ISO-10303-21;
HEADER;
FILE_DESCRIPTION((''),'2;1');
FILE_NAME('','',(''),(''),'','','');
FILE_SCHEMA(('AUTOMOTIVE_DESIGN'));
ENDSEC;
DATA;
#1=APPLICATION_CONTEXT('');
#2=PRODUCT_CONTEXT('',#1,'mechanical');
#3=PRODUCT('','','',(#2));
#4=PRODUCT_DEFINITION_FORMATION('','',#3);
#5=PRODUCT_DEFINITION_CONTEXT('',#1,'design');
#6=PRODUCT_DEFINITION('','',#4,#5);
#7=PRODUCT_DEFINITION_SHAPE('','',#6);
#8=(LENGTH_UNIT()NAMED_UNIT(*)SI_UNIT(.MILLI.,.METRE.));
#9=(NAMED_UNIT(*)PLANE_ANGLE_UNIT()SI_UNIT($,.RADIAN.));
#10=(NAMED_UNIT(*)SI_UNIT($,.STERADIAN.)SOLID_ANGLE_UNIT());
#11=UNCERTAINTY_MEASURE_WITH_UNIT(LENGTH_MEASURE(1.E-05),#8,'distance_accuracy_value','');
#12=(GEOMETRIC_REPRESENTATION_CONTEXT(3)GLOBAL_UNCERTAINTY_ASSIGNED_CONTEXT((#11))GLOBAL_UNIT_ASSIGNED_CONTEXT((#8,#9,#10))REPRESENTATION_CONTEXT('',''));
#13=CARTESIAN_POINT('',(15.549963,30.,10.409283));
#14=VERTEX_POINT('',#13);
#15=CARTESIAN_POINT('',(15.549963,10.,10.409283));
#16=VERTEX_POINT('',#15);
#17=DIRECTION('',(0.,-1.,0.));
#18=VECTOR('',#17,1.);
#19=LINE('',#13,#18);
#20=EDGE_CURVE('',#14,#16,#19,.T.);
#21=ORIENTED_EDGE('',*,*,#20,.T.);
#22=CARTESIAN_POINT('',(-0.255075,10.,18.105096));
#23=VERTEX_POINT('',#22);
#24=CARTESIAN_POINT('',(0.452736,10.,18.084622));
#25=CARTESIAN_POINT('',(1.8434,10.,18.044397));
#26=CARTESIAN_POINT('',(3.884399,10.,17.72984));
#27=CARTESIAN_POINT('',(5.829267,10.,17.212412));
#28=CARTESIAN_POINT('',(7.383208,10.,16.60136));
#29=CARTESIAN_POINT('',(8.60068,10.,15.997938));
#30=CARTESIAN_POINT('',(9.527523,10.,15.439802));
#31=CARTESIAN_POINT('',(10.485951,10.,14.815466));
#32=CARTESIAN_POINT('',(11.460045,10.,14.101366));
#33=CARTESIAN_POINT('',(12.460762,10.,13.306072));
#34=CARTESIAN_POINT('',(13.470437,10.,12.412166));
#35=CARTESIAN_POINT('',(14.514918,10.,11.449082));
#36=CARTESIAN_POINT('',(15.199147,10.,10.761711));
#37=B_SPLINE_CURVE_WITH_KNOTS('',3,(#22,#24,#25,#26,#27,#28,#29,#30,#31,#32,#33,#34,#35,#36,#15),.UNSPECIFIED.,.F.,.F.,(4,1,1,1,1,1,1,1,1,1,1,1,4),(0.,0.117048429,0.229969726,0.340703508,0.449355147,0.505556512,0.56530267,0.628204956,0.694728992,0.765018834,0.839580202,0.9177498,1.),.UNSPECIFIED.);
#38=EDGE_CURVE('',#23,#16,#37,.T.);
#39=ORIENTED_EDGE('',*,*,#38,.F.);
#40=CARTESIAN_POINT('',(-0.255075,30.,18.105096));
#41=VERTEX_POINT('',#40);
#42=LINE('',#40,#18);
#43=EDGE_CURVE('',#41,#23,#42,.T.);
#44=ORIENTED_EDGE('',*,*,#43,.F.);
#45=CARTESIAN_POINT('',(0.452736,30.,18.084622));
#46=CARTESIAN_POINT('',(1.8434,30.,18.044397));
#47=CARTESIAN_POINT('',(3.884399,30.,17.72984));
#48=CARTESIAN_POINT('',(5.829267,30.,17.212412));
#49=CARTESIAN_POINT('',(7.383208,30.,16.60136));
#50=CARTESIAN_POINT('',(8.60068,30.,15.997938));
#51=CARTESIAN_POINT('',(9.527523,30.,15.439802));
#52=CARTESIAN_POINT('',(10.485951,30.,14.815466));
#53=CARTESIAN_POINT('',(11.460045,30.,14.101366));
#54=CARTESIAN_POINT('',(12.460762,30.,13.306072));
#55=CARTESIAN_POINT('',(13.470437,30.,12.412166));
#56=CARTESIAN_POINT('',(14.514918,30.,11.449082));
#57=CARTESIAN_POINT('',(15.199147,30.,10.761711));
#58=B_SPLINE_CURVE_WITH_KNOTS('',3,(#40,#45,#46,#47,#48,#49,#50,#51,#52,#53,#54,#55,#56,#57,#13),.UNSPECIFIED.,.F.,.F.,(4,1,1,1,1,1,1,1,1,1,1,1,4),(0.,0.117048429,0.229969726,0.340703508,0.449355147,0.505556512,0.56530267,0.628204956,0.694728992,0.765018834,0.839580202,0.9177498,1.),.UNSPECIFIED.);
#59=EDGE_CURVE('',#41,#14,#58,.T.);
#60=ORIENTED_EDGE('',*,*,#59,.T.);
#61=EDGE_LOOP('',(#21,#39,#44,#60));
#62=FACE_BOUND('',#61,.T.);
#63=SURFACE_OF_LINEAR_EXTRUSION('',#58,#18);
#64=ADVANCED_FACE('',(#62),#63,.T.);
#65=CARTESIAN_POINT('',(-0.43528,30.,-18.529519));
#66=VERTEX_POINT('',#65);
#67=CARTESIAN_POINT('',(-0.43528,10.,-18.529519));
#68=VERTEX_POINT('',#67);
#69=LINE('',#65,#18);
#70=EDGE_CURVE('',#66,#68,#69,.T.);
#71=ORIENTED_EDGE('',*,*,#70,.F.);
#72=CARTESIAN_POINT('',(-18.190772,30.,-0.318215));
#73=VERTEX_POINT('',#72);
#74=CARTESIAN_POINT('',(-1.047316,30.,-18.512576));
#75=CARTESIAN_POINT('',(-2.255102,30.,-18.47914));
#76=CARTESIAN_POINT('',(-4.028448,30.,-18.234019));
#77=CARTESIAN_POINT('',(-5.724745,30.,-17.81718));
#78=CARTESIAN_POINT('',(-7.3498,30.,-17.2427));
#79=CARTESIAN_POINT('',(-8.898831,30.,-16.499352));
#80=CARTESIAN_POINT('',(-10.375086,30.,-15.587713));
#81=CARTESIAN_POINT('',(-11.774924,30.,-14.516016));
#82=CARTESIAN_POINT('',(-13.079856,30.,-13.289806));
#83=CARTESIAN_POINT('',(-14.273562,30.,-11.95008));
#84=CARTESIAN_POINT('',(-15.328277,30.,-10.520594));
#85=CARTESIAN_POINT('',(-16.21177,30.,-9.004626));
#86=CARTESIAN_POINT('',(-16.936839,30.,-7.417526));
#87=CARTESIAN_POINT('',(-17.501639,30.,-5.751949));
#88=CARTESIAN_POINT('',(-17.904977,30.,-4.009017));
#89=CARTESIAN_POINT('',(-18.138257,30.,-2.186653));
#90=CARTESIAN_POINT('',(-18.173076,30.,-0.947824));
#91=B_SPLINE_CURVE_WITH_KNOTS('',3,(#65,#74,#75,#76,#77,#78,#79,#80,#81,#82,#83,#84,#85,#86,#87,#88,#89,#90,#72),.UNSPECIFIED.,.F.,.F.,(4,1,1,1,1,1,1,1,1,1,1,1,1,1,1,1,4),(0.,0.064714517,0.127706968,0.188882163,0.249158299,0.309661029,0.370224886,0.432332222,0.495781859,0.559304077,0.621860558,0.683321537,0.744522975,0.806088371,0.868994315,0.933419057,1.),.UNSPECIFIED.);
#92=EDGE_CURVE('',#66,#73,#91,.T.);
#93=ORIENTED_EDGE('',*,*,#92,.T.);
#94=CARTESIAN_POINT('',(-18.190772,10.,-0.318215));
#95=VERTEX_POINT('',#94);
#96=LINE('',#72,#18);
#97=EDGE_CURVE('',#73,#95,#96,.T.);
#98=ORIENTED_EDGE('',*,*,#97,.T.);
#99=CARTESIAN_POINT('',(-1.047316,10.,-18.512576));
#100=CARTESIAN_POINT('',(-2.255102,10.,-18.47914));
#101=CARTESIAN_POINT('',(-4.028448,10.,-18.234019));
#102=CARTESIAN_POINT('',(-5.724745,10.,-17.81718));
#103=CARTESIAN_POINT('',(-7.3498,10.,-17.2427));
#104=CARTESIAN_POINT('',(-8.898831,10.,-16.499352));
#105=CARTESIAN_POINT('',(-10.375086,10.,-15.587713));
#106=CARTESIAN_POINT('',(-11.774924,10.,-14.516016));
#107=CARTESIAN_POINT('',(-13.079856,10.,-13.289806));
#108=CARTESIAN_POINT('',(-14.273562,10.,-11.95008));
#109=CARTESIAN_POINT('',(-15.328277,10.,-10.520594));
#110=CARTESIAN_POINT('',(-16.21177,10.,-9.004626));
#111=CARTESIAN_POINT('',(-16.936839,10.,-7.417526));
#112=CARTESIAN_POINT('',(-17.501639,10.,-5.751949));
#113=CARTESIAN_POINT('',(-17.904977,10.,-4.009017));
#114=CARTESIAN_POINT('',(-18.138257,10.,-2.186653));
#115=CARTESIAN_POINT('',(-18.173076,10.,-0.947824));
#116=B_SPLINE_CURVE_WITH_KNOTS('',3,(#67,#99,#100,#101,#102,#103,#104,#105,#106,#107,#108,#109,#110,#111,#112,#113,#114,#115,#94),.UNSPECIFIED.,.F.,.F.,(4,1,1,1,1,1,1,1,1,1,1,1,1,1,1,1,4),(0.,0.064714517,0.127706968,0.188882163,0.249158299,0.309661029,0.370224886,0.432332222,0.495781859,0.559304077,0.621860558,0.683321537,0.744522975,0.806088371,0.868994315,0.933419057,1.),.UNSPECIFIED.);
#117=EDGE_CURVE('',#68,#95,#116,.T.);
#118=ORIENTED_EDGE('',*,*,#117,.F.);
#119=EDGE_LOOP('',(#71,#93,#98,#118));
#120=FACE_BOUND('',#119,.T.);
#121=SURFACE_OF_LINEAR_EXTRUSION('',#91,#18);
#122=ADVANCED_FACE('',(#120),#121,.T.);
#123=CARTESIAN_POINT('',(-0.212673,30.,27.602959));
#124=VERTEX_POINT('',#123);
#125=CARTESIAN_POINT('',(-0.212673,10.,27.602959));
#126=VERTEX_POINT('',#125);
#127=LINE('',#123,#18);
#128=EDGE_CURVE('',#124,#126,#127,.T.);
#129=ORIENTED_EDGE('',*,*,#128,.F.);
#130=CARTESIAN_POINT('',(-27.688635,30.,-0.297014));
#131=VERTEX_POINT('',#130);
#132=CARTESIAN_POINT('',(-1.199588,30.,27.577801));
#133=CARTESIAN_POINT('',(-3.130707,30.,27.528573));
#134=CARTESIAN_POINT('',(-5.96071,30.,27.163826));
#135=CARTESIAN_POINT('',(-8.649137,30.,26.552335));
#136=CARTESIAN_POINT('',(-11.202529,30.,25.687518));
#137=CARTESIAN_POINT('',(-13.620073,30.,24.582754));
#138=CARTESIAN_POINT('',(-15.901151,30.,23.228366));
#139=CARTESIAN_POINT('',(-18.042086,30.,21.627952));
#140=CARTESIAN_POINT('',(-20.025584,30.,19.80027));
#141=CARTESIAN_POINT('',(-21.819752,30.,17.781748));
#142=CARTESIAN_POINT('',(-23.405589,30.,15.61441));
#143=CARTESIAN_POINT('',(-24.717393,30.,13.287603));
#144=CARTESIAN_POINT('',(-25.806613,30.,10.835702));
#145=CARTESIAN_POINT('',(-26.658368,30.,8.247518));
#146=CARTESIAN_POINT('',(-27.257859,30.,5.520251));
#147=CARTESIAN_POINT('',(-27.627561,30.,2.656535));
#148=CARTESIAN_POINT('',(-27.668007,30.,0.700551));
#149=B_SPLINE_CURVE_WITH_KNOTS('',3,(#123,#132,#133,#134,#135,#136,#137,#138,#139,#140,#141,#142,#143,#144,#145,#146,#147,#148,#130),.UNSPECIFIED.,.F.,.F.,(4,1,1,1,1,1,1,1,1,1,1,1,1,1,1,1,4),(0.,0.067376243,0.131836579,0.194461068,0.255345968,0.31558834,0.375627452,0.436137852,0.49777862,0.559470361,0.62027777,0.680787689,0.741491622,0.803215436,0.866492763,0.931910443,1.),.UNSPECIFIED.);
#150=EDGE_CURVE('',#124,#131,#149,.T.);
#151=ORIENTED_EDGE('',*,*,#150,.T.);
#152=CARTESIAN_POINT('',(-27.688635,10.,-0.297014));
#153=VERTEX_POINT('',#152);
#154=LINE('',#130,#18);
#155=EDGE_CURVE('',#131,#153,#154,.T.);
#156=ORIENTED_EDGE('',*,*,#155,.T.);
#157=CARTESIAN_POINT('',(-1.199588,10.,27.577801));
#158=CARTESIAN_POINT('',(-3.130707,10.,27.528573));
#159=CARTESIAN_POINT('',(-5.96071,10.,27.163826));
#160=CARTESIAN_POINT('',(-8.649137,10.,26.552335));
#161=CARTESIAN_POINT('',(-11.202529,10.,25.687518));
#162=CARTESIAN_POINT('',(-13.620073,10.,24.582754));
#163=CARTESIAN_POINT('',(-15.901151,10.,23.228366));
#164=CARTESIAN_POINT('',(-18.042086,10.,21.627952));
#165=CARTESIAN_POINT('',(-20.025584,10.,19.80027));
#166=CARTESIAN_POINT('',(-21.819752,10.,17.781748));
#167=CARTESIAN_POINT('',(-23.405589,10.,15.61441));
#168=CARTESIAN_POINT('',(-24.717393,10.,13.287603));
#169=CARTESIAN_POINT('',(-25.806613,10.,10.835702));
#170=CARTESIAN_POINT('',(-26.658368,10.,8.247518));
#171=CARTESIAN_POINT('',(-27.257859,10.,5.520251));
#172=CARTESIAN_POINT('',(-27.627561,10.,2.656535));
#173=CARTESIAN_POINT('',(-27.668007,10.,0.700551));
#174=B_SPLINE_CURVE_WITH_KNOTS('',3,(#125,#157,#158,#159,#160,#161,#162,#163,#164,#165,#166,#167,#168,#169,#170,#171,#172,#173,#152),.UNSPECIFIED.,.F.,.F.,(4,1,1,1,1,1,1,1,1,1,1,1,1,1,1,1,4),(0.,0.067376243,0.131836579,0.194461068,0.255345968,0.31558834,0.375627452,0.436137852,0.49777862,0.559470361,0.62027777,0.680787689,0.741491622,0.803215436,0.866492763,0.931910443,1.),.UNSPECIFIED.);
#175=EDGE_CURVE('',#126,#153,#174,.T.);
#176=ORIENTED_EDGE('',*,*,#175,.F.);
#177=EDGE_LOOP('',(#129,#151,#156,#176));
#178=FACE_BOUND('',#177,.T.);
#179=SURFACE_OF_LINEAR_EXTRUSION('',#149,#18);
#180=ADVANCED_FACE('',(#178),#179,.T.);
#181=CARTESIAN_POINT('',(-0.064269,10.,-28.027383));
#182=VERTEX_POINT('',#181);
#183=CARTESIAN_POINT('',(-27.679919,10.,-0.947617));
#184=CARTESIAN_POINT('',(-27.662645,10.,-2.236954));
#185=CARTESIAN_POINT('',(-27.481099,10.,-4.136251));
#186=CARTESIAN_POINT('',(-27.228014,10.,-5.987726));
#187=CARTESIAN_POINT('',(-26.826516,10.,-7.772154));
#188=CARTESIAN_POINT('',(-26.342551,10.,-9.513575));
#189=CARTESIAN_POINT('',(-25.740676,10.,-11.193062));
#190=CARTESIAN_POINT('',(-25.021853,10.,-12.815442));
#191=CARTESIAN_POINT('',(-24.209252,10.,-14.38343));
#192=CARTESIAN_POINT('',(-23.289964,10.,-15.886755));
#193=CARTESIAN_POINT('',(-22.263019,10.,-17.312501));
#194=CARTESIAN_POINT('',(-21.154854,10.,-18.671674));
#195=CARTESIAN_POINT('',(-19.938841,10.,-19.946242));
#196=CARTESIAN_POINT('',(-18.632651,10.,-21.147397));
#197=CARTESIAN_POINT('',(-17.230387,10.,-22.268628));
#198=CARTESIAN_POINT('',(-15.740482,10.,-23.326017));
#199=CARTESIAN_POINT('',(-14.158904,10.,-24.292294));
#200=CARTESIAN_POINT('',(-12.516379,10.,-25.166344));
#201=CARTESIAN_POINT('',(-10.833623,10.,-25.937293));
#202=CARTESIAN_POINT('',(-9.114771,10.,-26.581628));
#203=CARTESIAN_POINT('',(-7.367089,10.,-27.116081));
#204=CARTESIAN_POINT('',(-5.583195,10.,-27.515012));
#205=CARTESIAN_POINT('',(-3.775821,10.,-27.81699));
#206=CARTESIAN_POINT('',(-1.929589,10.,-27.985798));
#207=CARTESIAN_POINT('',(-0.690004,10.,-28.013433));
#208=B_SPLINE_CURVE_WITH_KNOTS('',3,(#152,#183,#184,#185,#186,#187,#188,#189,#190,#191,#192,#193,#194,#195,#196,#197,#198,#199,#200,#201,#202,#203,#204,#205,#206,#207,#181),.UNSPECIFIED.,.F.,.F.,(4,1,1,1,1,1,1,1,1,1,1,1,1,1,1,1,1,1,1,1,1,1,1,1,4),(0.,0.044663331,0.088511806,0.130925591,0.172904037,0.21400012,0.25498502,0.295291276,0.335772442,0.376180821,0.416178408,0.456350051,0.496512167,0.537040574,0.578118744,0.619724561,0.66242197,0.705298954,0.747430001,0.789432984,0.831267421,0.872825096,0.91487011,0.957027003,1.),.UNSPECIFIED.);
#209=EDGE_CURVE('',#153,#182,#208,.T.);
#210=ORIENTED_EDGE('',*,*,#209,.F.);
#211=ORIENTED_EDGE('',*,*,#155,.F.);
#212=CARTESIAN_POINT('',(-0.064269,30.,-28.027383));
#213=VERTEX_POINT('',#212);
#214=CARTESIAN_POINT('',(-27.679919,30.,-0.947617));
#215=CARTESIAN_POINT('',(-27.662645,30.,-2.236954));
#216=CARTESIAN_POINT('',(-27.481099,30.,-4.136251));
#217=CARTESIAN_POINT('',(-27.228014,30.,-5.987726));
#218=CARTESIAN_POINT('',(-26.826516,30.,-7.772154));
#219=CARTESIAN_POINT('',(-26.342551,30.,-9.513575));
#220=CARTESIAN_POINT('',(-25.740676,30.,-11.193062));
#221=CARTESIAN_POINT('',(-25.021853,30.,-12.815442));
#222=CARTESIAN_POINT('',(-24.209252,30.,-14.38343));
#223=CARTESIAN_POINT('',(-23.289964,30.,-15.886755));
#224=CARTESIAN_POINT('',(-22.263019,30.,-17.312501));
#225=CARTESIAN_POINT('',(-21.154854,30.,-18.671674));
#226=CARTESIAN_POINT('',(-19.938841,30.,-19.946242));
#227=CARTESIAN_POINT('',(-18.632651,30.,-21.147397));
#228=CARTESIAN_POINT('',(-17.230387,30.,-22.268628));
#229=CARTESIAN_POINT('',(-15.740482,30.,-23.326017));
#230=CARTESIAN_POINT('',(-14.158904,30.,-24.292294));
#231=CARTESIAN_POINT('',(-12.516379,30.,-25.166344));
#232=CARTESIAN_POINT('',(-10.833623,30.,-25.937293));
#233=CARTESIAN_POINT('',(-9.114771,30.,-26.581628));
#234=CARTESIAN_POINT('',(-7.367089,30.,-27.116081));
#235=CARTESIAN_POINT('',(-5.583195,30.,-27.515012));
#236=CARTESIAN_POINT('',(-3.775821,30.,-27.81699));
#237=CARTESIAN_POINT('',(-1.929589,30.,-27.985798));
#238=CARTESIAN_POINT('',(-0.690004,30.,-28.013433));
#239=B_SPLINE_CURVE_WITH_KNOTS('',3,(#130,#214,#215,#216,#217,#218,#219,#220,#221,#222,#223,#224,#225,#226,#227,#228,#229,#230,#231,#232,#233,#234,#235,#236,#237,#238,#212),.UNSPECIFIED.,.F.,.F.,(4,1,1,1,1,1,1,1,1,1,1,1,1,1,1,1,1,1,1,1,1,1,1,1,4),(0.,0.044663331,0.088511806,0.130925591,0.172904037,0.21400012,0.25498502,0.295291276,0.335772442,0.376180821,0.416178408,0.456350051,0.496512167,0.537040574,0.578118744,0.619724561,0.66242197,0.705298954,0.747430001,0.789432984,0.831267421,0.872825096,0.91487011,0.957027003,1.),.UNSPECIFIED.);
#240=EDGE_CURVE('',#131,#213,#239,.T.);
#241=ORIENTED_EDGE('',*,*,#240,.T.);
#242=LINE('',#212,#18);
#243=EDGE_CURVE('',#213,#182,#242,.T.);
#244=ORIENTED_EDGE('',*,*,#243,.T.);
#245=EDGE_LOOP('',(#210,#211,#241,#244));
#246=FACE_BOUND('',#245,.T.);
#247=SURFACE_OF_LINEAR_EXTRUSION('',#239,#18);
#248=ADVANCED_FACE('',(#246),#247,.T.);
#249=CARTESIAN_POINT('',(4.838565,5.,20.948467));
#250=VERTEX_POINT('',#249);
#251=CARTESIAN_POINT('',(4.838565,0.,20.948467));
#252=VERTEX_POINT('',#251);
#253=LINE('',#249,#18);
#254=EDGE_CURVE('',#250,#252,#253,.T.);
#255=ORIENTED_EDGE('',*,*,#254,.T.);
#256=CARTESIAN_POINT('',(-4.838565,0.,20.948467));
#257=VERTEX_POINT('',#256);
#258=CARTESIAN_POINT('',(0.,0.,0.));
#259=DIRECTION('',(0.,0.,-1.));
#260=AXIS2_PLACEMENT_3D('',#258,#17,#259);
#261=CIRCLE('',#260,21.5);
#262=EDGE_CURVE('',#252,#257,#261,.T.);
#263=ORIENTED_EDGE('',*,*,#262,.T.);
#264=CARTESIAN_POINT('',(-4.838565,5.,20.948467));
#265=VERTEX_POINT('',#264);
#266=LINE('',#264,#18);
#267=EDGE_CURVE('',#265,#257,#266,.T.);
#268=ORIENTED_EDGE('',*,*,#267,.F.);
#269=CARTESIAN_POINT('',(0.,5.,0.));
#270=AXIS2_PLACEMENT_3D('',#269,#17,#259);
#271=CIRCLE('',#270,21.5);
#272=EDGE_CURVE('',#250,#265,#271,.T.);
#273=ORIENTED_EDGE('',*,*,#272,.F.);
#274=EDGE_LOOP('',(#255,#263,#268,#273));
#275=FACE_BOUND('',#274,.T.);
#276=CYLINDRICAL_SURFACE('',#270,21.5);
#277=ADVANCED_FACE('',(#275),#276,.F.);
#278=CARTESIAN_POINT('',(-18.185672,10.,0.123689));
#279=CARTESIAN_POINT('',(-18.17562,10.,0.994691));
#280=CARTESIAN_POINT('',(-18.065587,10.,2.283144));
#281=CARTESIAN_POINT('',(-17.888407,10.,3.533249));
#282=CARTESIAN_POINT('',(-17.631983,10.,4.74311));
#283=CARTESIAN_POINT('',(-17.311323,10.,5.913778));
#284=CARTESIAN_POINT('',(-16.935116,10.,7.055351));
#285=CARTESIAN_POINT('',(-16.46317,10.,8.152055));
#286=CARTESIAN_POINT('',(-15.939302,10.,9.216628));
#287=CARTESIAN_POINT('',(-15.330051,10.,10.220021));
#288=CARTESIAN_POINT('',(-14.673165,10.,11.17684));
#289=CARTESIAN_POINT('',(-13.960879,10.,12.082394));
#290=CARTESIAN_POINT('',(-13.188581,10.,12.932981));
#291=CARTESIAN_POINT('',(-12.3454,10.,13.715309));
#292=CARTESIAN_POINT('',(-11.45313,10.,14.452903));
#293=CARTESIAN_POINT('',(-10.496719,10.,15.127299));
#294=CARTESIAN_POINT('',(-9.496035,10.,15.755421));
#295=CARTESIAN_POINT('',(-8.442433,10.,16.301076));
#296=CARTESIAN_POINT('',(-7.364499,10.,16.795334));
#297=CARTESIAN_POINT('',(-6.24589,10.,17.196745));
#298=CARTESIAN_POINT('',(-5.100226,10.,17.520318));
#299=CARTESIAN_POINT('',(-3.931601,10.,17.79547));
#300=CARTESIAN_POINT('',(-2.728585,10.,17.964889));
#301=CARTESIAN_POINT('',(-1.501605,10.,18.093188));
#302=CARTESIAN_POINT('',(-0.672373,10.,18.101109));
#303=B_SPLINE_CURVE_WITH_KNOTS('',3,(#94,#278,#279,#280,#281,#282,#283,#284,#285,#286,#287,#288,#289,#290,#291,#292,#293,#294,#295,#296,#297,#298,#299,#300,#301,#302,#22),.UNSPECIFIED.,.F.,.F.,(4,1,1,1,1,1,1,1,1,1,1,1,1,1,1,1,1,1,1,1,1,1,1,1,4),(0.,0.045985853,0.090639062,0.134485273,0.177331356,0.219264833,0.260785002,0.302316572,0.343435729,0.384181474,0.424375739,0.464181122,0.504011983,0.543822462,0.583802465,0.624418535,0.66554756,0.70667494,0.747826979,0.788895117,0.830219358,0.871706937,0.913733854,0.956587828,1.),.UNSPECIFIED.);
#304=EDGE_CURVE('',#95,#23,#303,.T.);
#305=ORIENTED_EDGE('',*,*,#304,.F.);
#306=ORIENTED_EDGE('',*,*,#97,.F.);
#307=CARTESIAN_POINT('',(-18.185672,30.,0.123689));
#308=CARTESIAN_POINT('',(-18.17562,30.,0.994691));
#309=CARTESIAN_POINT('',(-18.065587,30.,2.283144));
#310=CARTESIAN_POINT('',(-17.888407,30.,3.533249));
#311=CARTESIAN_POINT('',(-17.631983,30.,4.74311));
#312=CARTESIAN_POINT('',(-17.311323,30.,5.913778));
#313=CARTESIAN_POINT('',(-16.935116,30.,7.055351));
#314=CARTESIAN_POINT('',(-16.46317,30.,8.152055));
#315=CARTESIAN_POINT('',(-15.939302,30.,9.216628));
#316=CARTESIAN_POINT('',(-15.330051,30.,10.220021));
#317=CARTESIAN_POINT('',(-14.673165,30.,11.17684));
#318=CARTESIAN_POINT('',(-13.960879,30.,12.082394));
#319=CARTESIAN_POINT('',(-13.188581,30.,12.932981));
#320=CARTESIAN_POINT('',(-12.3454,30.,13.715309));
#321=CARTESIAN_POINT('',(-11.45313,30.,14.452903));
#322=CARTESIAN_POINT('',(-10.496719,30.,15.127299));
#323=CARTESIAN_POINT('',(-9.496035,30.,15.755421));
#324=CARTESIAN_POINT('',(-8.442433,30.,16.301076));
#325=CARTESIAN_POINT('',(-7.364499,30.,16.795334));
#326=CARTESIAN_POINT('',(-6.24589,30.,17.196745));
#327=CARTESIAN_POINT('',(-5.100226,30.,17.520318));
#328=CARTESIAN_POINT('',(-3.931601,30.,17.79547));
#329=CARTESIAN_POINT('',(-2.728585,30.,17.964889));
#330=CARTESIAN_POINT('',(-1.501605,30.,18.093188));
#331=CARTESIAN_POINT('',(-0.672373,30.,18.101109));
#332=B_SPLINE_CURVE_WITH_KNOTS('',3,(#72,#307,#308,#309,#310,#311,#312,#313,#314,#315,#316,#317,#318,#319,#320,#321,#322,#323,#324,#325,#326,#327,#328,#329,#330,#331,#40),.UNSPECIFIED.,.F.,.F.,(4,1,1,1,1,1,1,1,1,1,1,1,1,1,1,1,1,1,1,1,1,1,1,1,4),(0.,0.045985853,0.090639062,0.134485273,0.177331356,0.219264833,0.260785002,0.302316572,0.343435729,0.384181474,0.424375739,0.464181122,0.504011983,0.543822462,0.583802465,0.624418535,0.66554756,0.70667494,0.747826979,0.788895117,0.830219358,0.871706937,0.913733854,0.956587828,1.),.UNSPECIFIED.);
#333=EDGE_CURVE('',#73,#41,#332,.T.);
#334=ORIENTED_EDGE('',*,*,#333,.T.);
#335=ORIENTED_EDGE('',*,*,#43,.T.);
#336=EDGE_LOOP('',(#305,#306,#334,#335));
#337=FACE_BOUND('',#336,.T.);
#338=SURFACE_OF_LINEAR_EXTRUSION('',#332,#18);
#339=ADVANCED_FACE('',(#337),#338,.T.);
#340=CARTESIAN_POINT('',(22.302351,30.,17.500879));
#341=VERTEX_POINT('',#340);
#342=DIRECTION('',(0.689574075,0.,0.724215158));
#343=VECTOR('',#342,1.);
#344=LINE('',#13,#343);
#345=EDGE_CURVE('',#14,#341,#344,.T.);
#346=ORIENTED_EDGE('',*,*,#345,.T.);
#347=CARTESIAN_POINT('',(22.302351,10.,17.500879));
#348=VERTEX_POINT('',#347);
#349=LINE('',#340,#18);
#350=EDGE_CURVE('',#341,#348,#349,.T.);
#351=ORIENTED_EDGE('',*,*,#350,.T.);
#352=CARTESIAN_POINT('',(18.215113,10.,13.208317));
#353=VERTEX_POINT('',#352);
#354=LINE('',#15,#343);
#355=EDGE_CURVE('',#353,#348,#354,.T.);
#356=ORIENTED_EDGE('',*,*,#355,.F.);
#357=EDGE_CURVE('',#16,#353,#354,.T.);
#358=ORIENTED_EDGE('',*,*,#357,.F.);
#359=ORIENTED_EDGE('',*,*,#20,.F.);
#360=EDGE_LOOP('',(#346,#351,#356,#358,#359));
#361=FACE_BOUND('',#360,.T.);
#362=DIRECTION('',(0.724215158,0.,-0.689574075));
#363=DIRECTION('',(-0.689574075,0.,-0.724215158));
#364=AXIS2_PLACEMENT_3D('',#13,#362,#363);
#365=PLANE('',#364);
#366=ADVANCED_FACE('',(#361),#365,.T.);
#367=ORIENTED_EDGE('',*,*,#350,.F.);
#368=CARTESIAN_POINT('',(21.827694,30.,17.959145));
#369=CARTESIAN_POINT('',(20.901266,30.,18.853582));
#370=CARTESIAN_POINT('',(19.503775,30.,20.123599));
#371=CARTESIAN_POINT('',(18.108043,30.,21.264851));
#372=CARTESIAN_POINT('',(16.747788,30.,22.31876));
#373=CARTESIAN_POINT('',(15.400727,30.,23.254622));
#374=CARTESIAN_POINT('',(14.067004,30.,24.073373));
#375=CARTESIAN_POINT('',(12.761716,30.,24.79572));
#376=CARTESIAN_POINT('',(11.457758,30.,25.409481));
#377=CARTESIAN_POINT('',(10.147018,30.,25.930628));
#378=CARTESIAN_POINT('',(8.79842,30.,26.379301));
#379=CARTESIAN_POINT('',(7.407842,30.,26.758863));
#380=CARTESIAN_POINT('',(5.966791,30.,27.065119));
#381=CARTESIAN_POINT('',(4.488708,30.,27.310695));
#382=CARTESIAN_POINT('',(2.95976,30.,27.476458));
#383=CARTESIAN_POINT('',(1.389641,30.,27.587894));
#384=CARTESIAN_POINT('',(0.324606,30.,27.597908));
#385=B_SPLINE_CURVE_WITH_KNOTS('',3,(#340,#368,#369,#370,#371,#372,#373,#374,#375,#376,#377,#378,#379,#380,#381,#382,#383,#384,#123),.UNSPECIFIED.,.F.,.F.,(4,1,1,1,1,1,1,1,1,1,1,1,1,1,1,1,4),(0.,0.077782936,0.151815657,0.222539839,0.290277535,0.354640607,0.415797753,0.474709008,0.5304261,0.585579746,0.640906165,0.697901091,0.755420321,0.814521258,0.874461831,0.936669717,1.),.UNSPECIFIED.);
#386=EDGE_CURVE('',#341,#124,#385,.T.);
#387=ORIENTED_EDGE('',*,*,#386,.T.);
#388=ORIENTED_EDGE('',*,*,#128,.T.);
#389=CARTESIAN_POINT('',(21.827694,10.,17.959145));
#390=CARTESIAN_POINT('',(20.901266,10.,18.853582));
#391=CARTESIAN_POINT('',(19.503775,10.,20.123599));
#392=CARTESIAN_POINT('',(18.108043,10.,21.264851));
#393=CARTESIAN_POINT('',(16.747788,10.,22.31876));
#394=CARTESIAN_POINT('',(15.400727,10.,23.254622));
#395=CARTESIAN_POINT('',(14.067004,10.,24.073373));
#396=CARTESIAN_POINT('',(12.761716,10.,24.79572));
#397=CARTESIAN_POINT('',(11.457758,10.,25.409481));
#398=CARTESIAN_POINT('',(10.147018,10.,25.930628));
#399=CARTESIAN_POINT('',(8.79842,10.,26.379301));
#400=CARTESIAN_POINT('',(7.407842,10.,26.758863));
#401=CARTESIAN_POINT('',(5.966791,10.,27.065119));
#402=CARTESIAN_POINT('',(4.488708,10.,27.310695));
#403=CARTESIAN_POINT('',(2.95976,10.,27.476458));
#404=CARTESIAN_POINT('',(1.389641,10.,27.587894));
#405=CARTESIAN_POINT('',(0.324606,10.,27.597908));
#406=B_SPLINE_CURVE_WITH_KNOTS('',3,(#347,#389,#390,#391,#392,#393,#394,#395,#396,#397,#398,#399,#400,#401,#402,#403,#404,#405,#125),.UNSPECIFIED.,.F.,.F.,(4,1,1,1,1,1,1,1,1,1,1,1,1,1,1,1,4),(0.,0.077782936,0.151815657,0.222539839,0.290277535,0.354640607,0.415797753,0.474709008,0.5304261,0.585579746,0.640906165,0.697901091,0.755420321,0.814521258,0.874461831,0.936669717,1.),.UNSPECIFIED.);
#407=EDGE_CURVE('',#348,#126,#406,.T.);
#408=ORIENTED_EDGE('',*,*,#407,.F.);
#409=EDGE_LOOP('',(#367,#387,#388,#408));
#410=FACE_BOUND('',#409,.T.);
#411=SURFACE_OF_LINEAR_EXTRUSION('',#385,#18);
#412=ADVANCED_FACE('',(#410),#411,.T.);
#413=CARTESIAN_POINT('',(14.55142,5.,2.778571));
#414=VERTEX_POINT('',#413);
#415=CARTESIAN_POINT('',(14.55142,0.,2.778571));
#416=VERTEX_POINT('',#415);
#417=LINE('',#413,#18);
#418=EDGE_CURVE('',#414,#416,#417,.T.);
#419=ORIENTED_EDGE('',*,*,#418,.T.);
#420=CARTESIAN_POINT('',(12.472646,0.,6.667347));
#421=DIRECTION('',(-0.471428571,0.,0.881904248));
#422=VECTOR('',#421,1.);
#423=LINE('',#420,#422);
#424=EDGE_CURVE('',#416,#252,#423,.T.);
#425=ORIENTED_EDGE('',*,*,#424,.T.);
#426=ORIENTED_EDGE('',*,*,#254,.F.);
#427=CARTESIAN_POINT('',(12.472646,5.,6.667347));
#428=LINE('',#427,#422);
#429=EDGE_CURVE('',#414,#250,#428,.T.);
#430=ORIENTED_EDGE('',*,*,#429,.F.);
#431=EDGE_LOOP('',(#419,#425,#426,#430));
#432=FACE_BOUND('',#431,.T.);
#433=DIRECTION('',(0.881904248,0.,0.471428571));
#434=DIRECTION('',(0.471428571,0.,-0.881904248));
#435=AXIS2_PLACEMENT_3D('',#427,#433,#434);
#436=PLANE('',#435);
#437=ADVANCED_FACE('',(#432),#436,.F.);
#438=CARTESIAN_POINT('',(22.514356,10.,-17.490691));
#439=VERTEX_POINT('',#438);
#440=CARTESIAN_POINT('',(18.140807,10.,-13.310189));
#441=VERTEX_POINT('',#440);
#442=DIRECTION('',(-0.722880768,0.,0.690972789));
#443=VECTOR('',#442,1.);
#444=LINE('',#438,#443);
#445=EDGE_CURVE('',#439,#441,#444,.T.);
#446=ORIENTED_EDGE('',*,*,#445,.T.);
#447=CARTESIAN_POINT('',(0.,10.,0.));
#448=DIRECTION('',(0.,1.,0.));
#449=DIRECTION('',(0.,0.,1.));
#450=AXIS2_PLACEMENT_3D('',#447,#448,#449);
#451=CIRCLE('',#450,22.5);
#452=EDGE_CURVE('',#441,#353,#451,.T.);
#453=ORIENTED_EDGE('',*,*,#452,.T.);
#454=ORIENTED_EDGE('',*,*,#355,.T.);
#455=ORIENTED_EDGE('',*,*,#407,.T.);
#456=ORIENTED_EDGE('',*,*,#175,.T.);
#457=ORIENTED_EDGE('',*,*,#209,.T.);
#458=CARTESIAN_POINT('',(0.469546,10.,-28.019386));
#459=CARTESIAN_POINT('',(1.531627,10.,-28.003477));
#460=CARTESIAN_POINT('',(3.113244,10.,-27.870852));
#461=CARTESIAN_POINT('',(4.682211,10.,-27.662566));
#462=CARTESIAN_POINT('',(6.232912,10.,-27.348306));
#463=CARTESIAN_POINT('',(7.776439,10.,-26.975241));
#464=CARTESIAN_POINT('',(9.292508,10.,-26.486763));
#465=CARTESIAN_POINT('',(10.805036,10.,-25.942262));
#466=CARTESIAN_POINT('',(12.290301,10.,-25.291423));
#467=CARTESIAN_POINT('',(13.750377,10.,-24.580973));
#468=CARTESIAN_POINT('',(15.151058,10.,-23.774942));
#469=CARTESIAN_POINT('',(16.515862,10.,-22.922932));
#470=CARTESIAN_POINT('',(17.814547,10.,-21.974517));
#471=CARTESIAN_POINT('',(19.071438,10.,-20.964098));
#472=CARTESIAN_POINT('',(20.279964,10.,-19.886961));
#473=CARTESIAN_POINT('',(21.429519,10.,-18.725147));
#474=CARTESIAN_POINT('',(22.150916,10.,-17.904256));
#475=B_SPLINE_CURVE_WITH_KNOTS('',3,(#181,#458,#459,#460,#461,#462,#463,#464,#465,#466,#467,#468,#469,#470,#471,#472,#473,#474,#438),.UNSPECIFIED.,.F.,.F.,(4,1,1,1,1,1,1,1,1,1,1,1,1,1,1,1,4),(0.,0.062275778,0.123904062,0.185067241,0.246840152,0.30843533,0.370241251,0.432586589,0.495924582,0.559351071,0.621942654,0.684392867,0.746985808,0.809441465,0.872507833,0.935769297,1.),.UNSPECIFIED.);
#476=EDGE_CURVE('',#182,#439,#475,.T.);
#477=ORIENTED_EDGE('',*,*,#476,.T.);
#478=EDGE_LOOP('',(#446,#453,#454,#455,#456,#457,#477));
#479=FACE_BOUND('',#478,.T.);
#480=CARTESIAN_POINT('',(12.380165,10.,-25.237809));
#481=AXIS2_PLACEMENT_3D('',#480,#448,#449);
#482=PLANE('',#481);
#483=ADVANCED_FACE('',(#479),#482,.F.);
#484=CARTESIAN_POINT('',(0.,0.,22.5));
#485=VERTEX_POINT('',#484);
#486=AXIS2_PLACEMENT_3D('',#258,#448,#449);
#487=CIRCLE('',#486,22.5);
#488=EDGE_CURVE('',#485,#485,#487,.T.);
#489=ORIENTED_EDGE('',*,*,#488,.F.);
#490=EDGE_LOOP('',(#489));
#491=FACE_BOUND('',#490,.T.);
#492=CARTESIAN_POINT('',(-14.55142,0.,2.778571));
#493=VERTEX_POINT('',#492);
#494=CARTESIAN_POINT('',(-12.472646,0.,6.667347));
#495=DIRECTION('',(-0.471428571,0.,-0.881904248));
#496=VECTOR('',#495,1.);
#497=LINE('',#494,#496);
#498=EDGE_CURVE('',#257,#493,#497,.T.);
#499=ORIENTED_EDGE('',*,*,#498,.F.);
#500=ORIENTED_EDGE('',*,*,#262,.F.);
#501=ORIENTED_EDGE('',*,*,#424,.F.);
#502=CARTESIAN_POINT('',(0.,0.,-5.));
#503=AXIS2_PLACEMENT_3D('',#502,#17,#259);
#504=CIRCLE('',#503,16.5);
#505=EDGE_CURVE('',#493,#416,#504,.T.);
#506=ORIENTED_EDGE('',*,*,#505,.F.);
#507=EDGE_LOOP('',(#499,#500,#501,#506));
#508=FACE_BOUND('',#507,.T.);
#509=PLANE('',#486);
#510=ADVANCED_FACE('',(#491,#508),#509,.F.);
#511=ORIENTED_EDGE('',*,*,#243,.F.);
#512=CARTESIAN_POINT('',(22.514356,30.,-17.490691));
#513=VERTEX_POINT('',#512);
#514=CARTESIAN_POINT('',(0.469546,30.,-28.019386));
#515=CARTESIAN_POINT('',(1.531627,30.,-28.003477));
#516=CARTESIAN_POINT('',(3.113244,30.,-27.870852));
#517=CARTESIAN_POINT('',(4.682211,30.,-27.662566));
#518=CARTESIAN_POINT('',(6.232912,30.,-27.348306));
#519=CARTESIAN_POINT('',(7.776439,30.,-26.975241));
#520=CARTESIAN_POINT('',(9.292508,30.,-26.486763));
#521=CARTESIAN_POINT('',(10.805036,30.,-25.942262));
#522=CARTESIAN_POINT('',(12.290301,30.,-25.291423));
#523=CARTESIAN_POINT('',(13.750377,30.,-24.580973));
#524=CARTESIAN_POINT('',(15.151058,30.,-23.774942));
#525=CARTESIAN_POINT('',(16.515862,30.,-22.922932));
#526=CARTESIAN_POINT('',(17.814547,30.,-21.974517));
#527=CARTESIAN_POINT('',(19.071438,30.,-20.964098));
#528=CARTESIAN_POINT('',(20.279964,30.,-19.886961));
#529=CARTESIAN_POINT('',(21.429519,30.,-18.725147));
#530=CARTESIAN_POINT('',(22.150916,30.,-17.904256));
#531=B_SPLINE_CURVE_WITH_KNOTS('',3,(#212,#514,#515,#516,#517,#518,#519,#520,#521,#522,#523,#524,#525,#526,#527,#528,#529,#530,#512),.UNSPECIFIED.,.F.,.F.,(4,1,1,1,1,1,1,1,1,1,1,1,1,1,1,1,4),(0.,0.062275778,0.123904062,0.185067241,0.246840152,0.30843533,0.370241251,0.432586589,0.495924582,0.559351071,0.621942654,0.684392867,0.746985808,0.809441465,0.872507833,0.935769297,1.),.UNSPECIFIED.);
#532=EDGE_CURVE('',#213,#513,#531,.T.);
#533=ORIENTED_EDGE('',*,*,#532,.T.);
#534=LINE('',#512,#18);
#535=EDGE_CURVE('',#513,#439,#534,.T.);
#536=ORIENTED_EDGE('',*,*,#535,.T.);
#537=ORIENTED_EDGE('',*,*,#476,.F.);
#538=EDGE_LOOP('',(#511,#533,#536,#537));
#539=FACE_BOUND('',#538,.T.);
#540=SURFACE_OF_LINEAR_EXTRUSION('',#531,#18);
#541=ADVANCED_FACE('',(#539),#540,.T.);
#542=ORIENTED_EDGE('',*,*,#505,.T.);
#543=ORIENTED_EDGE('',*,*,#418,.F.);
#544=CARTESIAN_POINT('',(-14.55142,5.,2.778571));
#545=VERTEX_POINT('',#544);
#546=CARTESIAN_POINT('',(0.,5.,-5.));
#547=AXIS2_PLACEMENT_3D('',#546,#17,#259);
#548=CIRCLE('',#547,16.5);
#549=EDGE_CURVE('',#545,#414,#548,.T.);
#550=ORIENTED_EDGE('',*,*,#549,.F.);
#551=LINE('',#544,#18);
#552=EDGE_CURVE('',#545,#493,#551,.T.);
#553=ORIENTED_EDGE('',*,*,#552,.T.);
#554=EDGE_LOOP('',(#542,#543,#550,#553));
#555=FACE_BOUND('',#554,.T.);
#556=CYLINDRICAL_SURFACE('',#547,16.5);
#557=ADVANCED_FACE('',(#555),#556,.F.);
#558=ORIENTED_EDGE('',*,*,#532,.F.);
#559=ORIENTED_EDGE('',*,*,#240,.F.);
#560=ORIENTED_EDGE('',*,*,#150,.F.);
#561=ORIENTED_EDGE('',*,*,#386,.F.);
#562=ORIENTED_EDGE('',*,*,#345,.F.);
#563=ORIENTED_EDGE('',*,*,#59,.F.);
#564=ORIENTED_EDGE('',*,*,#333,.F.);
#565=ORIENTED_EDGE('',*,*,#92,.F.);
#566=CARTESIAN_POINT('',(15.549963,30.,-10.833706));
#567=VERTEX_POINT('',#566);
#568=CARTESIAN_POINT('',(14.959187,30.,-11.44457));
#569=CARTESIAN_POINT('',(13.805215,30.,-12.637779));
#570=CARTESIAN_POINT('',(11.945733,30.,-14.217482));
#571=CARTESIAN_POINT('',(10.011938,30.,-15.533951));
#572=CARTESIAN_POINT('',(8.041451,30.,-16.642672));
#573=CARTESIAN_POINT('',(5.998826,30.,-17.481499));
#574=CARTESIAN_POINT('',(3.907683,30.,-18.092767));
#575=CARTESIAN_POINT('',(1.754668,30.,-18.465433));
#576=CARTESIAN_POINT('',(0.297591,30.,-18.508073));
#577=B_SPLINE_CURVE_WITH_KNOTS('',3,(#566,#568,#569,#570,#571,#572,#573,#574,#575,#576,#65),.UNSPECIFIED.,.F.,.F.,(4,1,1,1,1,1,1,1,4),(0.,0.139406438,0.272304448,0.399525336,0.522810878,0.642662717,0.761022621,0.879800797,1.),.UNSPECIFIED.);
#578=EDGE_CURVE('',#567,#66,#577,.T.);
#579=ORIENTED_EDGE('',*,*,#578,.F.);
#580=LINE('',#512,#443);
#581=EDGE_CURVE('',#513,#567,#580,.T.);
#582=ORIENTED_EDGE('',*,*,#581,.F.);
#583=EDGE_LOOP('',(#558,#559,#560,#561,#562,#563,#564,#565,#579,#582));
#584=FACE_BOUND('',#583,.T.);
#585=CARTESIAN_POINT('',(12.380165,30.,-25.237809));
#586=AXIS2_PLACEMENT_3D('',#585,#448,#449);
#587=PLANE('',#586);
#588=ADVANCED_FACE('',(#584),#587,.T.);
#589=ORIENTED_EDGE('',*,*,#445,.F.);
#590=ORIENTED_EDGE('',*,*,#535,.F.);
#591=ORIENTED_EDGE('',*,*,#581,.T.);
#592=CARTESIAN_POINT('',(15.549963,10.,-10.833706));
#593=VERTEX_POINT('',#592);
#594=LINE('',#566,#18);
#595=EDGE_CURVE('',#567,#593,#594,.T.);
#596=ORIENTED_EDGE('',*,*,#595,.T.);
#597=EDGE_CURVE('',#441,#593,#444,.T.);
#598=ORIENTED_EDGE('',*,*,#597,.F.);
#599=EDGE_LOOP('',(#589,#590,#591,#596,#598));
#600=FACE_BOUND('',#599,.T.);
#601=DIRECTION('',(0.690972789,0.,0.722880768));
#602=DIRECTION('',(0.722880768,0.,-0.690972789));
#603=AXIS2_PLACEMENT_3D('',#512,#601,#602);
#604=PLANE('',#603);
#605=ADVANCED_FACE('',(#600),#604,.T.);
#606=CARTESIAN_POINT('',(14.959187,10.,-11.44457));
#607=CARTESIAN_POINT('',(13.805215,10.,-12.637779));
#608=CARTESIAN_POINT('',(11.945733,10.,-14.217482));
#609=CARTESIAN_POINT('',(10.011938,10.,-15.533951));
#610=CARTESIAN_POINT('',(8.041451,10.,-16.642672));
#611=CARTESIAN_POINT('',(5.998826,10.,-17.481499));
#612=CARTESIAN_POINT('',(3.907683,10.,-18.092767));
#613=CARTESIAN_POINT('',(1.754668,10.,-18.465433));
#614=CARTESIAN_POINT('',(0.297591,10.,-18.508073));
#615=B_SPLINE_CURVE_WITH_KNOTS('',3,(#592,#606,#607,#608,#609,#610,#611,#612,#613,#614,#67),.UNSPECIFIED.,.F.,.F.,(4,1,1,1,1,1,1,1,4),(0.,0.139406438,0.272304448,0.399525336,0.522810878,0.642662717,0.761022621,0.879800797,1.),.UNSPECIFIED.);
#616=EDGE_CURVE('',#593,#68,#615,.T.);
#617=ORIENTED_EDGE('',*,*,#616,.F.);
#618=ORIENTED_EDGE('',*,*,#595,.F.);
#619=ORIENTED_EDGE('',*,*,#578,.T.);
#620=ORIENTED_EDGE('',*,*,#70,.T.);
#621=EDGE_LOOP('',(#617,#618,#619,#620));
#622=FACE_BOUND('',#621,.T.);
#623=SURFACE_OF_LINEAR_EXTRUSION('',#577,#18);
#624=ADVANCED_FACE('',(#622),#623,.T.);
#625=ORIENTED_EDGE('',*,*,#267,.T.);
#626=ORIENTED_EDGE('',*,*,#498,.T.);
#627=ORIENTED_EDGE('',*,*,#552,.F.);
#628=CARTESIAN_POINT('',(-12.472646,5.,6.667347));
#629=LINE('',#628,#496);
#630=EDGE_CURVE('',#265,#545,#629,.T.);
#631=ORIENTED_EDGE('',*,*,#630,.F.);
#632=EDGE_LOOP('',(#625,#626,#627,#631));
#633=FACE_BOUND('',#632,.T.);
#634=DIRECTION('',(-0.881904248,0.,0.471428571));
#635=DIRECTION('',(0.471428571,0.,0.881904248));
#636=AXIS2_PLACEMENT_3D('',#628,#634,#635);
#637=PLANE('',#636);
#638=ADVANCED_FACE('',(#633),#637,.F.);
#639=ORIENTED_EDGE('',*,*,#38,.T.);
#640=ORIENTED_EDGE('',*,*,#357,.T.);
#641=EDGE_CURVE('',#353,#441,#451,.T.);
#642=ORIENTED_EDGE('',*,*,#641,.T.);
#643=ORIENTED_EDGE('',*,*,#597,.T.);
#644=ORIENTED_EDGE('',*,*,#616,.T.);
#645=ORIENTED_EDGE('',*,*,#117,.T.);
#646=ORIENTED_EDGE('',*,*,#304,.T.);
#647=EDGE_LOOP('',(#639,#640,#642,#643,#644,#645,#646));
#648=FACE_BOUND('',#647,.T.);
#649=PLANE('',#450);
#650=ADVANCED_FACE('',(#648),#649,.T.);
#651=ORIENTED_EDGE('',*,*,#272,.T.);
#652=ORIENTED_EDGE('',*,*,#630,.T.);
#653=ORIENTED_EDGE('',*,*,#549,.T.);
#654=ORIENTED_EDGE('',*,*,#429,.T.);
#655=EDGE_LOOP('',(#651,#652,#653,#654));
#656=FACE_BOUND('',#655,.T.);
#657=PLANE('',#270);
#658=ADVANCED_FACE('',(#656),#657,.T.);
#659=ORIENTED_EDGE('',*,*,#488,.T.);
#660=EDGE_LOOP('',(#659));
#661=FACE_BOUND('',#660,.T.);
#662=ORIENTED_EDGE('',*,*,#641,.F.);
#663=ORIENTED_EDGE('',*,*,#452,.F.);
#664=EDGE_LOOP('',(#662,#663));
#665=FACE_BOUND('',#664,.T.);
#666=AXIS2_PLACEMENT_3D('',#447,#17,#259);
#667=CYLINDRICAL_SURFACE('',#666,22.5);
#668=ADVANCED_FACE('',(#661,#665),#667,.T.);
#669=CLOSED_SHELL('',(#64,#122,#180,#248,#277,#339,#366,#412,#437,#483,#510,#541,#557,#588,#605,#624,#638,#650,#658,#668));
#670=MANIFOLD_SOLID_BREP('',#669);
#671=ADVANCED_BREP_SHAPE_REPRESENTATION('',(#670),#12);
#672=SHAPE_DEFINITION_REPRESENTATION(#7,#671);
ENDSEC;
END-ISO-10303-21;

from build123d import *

# Parameters (mm, degrees)
SKETCH1_R           = 22.5
BOSS_EXTRUDE1_DEPTH = 10
BOSS_EXTRUDE2_DEPTH = 20
SKETCH3_R           = 16.5
CUT_EXTRUDE2_DEPTH  = 5


with BuildPart() as part:
    # Sketch1 → Boss-Extrude1 (new body)
    with BuildSketch(Plane(origin=(0, 0, 0), x_dir=(1, 0, 0), z_dir=(0, 1, 0))):
        with Locations(Location((0, 0, 0), (0, 0, 270))):
            Circle(SKETCH1_R)
    extrude(amount=BOSS_EXTRUDE1_DEPTH)

    # Sketch2 → Boss-Extrude2 (add)
    with BuildSketch(Plane(origin=(0, 10, 0), x_dir=(1, 0, 0), z_dir=(0, 1, 0))):
        with BuildLine():
            Line((22.514356491, 17.490690637), (15.549963462, 10.833706128))
            add(Edge.make_bspline(
                [(15.549963462, 10.833706128), (14.959186907, 11.444570075), (13.805215213, 12.637778742), (11.945732542, 14.217481862), (10.01193827, 15.533950672), (8.041450503, 16.642672321), (5.998825878, 17.481499268), (3.907682699, 18.092766593), (1.754668401, 18.465433177), (0.297591136, 18.508072829), (-0.435279594, 18.529519429)],
                knots=[0, 0, 0, 0, 1.115251505, 2.178435587, 3.19620269, 4.182487026, 5.141301733, 6.088180966, 7.038406374, 8, 8, 8, 8], degree=3))
            add(Edge.make_bspline(
                [(-0.435279594, 18.529519429), (-1.047315714, 18.512575866), (-2.255101565, 18.47913961), (-4.028447695, 18.234018873), (-5.724744916, 17.817180392), (-7.349799924, 17.242699751), (-8.898830923, 16.499352293), (-10.37508565, 15.587713348), (-11.77492446, 14.516016314), (-13.079856293, 13.2898062), (-14.273562073, 11.950079505), (-15.328277138, 10.520594316), (-16.211770191, 9.004625506), (-16.936838569, 7.417525692), (-17.501638807, 5.75194899), (-17.904977137, 4.009016732), (-18.138257248, 2.186653221), (-18.173075868, 0.947824086), (-18.190771715, 0.318214675)],
                knots=[0, 0, 0, 0, 1.035432265, 2.043311493, 3.022114605, 3.98653278, 4.95457646, 5.923598177, 6.917315552, 7.932509744, 8.948865224, 9.949768934, 10.933144597, 11.912367597, 12.897413939, 13.903909035, 14.934704909, 16, 16, 16, 16], degree=3))
            add(Edge.make_bspline(
                [(-18.190771715, 0.318214675), (-18.185671973, -0.123689261), (-18.175620278, -0.994691), (-18.065586703, -2.283144309), (-17.888406699, -3.533248623), (-17.631983338, -4.743110368), (-17.311323403, -5.91377802), (-16.935116286, -7.055350871), (-16.463169991, -8.152054953), (-15.939302484, -9.216627772), (-15.330050609, -10.220021127), (-14.673164696, -11.176839965), (-13.960879171, -12.082394056), (-13.188580519, -12.932981467), (-12.345399597, -13.715309421), (-11.453129512, -14.452903451), (-10.496718903, -15.127299081), (-9.496034842, -15.75542101), (-8.442432682, -16.301075874), (-7.364499094, -16.795333764), (-6.245890431, -17.196744657), (-5.100226426, -17.520318456), (-3.931601279, -17.795469647), (-2.72858475, -17.964888691), (-1.501605485, -18.09318775), (-0.67237345, -18.101109467), (-0.255074599, -18.105095955)],
                knots=[0, 0, 0, 0, 1.103660481, 2.175337485, 3.227646561, 4.255952547, 5.262355991, 6.258840057, 7.255597736, 8.242457506, 9.22035537, 10.185017736, 11.140346927, 12.096287581, 13.051739095, 14.01125915, 14.986044842, 15.97314143, 16.960198552, 17.947847494, 18.933482797, 19.925264591, 20.920966487, 21.929612487, 22.958107872, 24, 24, 24, 24], degree=3))
            add(Edge.make_bspline(
                [(-0.255074599, -18.105095955), (0.452735966, -18.084622318), (1.843399669, -18.044396943), (3.884398613, -17.729840213), (5.829267273, -17.212412193), (7.383208025, -16.601359767), (8.600679559, -15.997937564), (9.52752264, -15.439801741), (10.485950624, -14.815465543), (11.460044841, -14.101365846), (12.460761919, -13.306072133), (13.470436894, -12.412165987), (14.514917625, -11.449082455), (15.199146599, -10.761710818), (15.549963462, -10.409282654)],
                knots=[0, 0, 0, 0, 1.404581149, 2.759636711, 4.088442092, 5.392261763, 6.066678138, 6.783632037, 7.538459478, 8.336747902, 9.180226004, 10.074962426, 11.012997595, 12, 12, 12, 12], degree=3))
            Line((15.549963462, -10.409282654), (22.302350615, -17.500879208))
            add(Edge.make_bspline(
                [(22.302350615, -17.500879208), (21.827694143, -17.95914513), (20.901266219, -18.853582206), (19.503775414, -20.12359939), (18.108043407, -21.264851013), (16.747788174, -22.318759505), (15.400727318, -23.254621954), (14.067003691, -24.073373015), (12.761715627, -24.795720088), (11.457758402, -25.409481144), (10.147018122, -25.930628026), (8.798420406, -26.379301284), (7.407842465, -26.75886272), (5.966791283, -27.06511895), (4.488708107, -27.310695102), (2.959760044, -27.476457584), (1.389641377, -27.587894186), (0.324605561, -27.597907688), (-0.212673424, -27.602959203)],
                knots=[0, 0, 0, 0, 1.244526981, 2.429050516, 3.560637417, 4.644440555, 5.67424972, 6.652764056, 7.595344123, 8.486817594, 9.369275933, 10.254498637, 11.166417451, 12.086725134, 13.032340136, 13.991389299, 14.986715468, 16, 16, 16, 16], degree=3))
            add(Edge.make_bspline(
                [(-0.212673424, -27.602959203), (-1.199588367, -27.577800773), (-3.130706581, -27.528572719), (-5.960709972, -27.163826165), (-8.649137226, -26.552334995), (-11.202528785, -25.687517816), (-13.620072728, -24.582754401), (-15.901150575, -23.22836633), (-18.042085734, -21.627951998), (-20.025583664, -19.800269815), (-21.819751941, -17.781748276), (-23.405588922, -15.614409906), (-24.717393333, -13.287603029), (-25.806612801, -10.835702017), (-26.658368101, -8.247517893), (-27.257859435, -5.520251029), (-27.627561366, -2.656534771), (-27.668007283, -0.700550553), (-27.688634962, 0.297014088)],
                knots=[0, 0, 0, 0, 1.078019885, 2.10938526, 3.111377082, 4.085535484, 5.04941344, 6.010039228, 6.978205633, 7.964457913, 8.951525778, 9.924444315, 10.892603023, 11.863865945, 12.85144698, 13.863884204, 14.910567087, 16, 16, 16, 16], degree=3))
            add(Edge.make_bspline(
                [(-27.688634962, 0.297014088), (-27.679918705, 0.947617235), (-27.662645212, 2.23695366), (-27.481099205, 4.136250673), (-27.228013516, 5.987725528), (-26.826516082, 7.772153781), (-26.342550525, 9.513574972), (-25.74067577, 11.193061886), (-25.021853092, 12.815441538), (-24.20925184, 14.383429889), (-23.289964174, 15.886754934), (-22.263018932, 17.312500744), (-21.154853689, 18.671673812), (-19.93884104, 19.946242185), (-18.632651242, 21.14739682), (-17.230386997, 22.268628432), (-15.740482224, 23.326016746), (-14.158904306, 24.292294284), (-12.516379087, 25.166343676), (-10.833623133, 25.937292571), (-9.114770779, 26.581628309), (-7.367089489, 27.116081037), (-5.583195332, 27.515012207), (-3.775821291, 27.816990234), (-1.929588783, 27.985797881), (-0.690003597, 28.013432771), (-0.064269311, 28.027382677)],
                knots=[0, 0, 0, 0, 1.071919942, 2.124283339, 3.142214191, 4.149696895, 5.136002878, 6.119640489, 7.086990633, 8.058538607, 9.028339693, 9.988281803, 10.952401235, 11.916291999, 12.888973767, 13.874849856, 14.873389453, 15.898127285, 16.927174885, 17.938320013, 18.946391617, 19.950418109, 20.947802303, 21.956882652, 22.968648068, 24, 24, 24, 24], degree=3))
            add(Edge.make_bspline(
                [(-0.064269311, 28.027382677), (0.469546195, 28.019386243), (1.53162701, 28.003476514), (3.113243568, 27.870851616), (4.682211098, 27.662565556), (6.232912213, 27.348306247), (7.776439114, 26.975240735), (9.292508128, 26.486762906), (10.805036063, 25.942262312), (12.290301164, 25.291423032), (13.750376645, 24.580973168), (15.151057936, 23.774941998), (16.515862348, 22.922931778), (17.814546634, 21.974516811), (19.071437948, 20.964097872), (20.279963894, 19.886960788), (21.429518951, 18.725146522), (22.150915876, 17.904256161), (22.514356491, 17.490690637)],
                knots=[0, 0, 0, 0, 0.996412454, 1.982464992, 2.961075852, 3.949442424, 4.934965278, 5.923860011, 6.921385422, 7.934793307, 8.949617135, 9.951082467, 10.950285876, 11.951772932, 12.951063433, 13.960125323, 14.972308753, 16, 16, 16, 16], degree=3))
        make_face()
    extrude(amount=BOSS_EXTRUDE2_DEPTH)

    # Sketch3 → Cut-Extrude2 (cut)
    with BuildSketch(Plane.XZ):
        with BuildLine():
            ThreePointArc((-14.551420086, 2.778571429), (0, 11.5), (14.551420086, 2.778571429))
            Line((14.551420086, 2.778571429), (4.83856504, 20.948467447))
            ThreePointArc((4.83856504, 20.948467447), (0, 21.5), (-4.83856504, 20.948467447))
            Line((-4.83856504, 20.948467447), (-14.551420086, 2.778571429))
        make_face()
        with Locations((0, -5)):
            Circle(SKETCH3_R)
    extrude(amount=-CUT_EXTRUDE2_DEPTH, mode=Mode.SUBTRACT)


solid = part.part
